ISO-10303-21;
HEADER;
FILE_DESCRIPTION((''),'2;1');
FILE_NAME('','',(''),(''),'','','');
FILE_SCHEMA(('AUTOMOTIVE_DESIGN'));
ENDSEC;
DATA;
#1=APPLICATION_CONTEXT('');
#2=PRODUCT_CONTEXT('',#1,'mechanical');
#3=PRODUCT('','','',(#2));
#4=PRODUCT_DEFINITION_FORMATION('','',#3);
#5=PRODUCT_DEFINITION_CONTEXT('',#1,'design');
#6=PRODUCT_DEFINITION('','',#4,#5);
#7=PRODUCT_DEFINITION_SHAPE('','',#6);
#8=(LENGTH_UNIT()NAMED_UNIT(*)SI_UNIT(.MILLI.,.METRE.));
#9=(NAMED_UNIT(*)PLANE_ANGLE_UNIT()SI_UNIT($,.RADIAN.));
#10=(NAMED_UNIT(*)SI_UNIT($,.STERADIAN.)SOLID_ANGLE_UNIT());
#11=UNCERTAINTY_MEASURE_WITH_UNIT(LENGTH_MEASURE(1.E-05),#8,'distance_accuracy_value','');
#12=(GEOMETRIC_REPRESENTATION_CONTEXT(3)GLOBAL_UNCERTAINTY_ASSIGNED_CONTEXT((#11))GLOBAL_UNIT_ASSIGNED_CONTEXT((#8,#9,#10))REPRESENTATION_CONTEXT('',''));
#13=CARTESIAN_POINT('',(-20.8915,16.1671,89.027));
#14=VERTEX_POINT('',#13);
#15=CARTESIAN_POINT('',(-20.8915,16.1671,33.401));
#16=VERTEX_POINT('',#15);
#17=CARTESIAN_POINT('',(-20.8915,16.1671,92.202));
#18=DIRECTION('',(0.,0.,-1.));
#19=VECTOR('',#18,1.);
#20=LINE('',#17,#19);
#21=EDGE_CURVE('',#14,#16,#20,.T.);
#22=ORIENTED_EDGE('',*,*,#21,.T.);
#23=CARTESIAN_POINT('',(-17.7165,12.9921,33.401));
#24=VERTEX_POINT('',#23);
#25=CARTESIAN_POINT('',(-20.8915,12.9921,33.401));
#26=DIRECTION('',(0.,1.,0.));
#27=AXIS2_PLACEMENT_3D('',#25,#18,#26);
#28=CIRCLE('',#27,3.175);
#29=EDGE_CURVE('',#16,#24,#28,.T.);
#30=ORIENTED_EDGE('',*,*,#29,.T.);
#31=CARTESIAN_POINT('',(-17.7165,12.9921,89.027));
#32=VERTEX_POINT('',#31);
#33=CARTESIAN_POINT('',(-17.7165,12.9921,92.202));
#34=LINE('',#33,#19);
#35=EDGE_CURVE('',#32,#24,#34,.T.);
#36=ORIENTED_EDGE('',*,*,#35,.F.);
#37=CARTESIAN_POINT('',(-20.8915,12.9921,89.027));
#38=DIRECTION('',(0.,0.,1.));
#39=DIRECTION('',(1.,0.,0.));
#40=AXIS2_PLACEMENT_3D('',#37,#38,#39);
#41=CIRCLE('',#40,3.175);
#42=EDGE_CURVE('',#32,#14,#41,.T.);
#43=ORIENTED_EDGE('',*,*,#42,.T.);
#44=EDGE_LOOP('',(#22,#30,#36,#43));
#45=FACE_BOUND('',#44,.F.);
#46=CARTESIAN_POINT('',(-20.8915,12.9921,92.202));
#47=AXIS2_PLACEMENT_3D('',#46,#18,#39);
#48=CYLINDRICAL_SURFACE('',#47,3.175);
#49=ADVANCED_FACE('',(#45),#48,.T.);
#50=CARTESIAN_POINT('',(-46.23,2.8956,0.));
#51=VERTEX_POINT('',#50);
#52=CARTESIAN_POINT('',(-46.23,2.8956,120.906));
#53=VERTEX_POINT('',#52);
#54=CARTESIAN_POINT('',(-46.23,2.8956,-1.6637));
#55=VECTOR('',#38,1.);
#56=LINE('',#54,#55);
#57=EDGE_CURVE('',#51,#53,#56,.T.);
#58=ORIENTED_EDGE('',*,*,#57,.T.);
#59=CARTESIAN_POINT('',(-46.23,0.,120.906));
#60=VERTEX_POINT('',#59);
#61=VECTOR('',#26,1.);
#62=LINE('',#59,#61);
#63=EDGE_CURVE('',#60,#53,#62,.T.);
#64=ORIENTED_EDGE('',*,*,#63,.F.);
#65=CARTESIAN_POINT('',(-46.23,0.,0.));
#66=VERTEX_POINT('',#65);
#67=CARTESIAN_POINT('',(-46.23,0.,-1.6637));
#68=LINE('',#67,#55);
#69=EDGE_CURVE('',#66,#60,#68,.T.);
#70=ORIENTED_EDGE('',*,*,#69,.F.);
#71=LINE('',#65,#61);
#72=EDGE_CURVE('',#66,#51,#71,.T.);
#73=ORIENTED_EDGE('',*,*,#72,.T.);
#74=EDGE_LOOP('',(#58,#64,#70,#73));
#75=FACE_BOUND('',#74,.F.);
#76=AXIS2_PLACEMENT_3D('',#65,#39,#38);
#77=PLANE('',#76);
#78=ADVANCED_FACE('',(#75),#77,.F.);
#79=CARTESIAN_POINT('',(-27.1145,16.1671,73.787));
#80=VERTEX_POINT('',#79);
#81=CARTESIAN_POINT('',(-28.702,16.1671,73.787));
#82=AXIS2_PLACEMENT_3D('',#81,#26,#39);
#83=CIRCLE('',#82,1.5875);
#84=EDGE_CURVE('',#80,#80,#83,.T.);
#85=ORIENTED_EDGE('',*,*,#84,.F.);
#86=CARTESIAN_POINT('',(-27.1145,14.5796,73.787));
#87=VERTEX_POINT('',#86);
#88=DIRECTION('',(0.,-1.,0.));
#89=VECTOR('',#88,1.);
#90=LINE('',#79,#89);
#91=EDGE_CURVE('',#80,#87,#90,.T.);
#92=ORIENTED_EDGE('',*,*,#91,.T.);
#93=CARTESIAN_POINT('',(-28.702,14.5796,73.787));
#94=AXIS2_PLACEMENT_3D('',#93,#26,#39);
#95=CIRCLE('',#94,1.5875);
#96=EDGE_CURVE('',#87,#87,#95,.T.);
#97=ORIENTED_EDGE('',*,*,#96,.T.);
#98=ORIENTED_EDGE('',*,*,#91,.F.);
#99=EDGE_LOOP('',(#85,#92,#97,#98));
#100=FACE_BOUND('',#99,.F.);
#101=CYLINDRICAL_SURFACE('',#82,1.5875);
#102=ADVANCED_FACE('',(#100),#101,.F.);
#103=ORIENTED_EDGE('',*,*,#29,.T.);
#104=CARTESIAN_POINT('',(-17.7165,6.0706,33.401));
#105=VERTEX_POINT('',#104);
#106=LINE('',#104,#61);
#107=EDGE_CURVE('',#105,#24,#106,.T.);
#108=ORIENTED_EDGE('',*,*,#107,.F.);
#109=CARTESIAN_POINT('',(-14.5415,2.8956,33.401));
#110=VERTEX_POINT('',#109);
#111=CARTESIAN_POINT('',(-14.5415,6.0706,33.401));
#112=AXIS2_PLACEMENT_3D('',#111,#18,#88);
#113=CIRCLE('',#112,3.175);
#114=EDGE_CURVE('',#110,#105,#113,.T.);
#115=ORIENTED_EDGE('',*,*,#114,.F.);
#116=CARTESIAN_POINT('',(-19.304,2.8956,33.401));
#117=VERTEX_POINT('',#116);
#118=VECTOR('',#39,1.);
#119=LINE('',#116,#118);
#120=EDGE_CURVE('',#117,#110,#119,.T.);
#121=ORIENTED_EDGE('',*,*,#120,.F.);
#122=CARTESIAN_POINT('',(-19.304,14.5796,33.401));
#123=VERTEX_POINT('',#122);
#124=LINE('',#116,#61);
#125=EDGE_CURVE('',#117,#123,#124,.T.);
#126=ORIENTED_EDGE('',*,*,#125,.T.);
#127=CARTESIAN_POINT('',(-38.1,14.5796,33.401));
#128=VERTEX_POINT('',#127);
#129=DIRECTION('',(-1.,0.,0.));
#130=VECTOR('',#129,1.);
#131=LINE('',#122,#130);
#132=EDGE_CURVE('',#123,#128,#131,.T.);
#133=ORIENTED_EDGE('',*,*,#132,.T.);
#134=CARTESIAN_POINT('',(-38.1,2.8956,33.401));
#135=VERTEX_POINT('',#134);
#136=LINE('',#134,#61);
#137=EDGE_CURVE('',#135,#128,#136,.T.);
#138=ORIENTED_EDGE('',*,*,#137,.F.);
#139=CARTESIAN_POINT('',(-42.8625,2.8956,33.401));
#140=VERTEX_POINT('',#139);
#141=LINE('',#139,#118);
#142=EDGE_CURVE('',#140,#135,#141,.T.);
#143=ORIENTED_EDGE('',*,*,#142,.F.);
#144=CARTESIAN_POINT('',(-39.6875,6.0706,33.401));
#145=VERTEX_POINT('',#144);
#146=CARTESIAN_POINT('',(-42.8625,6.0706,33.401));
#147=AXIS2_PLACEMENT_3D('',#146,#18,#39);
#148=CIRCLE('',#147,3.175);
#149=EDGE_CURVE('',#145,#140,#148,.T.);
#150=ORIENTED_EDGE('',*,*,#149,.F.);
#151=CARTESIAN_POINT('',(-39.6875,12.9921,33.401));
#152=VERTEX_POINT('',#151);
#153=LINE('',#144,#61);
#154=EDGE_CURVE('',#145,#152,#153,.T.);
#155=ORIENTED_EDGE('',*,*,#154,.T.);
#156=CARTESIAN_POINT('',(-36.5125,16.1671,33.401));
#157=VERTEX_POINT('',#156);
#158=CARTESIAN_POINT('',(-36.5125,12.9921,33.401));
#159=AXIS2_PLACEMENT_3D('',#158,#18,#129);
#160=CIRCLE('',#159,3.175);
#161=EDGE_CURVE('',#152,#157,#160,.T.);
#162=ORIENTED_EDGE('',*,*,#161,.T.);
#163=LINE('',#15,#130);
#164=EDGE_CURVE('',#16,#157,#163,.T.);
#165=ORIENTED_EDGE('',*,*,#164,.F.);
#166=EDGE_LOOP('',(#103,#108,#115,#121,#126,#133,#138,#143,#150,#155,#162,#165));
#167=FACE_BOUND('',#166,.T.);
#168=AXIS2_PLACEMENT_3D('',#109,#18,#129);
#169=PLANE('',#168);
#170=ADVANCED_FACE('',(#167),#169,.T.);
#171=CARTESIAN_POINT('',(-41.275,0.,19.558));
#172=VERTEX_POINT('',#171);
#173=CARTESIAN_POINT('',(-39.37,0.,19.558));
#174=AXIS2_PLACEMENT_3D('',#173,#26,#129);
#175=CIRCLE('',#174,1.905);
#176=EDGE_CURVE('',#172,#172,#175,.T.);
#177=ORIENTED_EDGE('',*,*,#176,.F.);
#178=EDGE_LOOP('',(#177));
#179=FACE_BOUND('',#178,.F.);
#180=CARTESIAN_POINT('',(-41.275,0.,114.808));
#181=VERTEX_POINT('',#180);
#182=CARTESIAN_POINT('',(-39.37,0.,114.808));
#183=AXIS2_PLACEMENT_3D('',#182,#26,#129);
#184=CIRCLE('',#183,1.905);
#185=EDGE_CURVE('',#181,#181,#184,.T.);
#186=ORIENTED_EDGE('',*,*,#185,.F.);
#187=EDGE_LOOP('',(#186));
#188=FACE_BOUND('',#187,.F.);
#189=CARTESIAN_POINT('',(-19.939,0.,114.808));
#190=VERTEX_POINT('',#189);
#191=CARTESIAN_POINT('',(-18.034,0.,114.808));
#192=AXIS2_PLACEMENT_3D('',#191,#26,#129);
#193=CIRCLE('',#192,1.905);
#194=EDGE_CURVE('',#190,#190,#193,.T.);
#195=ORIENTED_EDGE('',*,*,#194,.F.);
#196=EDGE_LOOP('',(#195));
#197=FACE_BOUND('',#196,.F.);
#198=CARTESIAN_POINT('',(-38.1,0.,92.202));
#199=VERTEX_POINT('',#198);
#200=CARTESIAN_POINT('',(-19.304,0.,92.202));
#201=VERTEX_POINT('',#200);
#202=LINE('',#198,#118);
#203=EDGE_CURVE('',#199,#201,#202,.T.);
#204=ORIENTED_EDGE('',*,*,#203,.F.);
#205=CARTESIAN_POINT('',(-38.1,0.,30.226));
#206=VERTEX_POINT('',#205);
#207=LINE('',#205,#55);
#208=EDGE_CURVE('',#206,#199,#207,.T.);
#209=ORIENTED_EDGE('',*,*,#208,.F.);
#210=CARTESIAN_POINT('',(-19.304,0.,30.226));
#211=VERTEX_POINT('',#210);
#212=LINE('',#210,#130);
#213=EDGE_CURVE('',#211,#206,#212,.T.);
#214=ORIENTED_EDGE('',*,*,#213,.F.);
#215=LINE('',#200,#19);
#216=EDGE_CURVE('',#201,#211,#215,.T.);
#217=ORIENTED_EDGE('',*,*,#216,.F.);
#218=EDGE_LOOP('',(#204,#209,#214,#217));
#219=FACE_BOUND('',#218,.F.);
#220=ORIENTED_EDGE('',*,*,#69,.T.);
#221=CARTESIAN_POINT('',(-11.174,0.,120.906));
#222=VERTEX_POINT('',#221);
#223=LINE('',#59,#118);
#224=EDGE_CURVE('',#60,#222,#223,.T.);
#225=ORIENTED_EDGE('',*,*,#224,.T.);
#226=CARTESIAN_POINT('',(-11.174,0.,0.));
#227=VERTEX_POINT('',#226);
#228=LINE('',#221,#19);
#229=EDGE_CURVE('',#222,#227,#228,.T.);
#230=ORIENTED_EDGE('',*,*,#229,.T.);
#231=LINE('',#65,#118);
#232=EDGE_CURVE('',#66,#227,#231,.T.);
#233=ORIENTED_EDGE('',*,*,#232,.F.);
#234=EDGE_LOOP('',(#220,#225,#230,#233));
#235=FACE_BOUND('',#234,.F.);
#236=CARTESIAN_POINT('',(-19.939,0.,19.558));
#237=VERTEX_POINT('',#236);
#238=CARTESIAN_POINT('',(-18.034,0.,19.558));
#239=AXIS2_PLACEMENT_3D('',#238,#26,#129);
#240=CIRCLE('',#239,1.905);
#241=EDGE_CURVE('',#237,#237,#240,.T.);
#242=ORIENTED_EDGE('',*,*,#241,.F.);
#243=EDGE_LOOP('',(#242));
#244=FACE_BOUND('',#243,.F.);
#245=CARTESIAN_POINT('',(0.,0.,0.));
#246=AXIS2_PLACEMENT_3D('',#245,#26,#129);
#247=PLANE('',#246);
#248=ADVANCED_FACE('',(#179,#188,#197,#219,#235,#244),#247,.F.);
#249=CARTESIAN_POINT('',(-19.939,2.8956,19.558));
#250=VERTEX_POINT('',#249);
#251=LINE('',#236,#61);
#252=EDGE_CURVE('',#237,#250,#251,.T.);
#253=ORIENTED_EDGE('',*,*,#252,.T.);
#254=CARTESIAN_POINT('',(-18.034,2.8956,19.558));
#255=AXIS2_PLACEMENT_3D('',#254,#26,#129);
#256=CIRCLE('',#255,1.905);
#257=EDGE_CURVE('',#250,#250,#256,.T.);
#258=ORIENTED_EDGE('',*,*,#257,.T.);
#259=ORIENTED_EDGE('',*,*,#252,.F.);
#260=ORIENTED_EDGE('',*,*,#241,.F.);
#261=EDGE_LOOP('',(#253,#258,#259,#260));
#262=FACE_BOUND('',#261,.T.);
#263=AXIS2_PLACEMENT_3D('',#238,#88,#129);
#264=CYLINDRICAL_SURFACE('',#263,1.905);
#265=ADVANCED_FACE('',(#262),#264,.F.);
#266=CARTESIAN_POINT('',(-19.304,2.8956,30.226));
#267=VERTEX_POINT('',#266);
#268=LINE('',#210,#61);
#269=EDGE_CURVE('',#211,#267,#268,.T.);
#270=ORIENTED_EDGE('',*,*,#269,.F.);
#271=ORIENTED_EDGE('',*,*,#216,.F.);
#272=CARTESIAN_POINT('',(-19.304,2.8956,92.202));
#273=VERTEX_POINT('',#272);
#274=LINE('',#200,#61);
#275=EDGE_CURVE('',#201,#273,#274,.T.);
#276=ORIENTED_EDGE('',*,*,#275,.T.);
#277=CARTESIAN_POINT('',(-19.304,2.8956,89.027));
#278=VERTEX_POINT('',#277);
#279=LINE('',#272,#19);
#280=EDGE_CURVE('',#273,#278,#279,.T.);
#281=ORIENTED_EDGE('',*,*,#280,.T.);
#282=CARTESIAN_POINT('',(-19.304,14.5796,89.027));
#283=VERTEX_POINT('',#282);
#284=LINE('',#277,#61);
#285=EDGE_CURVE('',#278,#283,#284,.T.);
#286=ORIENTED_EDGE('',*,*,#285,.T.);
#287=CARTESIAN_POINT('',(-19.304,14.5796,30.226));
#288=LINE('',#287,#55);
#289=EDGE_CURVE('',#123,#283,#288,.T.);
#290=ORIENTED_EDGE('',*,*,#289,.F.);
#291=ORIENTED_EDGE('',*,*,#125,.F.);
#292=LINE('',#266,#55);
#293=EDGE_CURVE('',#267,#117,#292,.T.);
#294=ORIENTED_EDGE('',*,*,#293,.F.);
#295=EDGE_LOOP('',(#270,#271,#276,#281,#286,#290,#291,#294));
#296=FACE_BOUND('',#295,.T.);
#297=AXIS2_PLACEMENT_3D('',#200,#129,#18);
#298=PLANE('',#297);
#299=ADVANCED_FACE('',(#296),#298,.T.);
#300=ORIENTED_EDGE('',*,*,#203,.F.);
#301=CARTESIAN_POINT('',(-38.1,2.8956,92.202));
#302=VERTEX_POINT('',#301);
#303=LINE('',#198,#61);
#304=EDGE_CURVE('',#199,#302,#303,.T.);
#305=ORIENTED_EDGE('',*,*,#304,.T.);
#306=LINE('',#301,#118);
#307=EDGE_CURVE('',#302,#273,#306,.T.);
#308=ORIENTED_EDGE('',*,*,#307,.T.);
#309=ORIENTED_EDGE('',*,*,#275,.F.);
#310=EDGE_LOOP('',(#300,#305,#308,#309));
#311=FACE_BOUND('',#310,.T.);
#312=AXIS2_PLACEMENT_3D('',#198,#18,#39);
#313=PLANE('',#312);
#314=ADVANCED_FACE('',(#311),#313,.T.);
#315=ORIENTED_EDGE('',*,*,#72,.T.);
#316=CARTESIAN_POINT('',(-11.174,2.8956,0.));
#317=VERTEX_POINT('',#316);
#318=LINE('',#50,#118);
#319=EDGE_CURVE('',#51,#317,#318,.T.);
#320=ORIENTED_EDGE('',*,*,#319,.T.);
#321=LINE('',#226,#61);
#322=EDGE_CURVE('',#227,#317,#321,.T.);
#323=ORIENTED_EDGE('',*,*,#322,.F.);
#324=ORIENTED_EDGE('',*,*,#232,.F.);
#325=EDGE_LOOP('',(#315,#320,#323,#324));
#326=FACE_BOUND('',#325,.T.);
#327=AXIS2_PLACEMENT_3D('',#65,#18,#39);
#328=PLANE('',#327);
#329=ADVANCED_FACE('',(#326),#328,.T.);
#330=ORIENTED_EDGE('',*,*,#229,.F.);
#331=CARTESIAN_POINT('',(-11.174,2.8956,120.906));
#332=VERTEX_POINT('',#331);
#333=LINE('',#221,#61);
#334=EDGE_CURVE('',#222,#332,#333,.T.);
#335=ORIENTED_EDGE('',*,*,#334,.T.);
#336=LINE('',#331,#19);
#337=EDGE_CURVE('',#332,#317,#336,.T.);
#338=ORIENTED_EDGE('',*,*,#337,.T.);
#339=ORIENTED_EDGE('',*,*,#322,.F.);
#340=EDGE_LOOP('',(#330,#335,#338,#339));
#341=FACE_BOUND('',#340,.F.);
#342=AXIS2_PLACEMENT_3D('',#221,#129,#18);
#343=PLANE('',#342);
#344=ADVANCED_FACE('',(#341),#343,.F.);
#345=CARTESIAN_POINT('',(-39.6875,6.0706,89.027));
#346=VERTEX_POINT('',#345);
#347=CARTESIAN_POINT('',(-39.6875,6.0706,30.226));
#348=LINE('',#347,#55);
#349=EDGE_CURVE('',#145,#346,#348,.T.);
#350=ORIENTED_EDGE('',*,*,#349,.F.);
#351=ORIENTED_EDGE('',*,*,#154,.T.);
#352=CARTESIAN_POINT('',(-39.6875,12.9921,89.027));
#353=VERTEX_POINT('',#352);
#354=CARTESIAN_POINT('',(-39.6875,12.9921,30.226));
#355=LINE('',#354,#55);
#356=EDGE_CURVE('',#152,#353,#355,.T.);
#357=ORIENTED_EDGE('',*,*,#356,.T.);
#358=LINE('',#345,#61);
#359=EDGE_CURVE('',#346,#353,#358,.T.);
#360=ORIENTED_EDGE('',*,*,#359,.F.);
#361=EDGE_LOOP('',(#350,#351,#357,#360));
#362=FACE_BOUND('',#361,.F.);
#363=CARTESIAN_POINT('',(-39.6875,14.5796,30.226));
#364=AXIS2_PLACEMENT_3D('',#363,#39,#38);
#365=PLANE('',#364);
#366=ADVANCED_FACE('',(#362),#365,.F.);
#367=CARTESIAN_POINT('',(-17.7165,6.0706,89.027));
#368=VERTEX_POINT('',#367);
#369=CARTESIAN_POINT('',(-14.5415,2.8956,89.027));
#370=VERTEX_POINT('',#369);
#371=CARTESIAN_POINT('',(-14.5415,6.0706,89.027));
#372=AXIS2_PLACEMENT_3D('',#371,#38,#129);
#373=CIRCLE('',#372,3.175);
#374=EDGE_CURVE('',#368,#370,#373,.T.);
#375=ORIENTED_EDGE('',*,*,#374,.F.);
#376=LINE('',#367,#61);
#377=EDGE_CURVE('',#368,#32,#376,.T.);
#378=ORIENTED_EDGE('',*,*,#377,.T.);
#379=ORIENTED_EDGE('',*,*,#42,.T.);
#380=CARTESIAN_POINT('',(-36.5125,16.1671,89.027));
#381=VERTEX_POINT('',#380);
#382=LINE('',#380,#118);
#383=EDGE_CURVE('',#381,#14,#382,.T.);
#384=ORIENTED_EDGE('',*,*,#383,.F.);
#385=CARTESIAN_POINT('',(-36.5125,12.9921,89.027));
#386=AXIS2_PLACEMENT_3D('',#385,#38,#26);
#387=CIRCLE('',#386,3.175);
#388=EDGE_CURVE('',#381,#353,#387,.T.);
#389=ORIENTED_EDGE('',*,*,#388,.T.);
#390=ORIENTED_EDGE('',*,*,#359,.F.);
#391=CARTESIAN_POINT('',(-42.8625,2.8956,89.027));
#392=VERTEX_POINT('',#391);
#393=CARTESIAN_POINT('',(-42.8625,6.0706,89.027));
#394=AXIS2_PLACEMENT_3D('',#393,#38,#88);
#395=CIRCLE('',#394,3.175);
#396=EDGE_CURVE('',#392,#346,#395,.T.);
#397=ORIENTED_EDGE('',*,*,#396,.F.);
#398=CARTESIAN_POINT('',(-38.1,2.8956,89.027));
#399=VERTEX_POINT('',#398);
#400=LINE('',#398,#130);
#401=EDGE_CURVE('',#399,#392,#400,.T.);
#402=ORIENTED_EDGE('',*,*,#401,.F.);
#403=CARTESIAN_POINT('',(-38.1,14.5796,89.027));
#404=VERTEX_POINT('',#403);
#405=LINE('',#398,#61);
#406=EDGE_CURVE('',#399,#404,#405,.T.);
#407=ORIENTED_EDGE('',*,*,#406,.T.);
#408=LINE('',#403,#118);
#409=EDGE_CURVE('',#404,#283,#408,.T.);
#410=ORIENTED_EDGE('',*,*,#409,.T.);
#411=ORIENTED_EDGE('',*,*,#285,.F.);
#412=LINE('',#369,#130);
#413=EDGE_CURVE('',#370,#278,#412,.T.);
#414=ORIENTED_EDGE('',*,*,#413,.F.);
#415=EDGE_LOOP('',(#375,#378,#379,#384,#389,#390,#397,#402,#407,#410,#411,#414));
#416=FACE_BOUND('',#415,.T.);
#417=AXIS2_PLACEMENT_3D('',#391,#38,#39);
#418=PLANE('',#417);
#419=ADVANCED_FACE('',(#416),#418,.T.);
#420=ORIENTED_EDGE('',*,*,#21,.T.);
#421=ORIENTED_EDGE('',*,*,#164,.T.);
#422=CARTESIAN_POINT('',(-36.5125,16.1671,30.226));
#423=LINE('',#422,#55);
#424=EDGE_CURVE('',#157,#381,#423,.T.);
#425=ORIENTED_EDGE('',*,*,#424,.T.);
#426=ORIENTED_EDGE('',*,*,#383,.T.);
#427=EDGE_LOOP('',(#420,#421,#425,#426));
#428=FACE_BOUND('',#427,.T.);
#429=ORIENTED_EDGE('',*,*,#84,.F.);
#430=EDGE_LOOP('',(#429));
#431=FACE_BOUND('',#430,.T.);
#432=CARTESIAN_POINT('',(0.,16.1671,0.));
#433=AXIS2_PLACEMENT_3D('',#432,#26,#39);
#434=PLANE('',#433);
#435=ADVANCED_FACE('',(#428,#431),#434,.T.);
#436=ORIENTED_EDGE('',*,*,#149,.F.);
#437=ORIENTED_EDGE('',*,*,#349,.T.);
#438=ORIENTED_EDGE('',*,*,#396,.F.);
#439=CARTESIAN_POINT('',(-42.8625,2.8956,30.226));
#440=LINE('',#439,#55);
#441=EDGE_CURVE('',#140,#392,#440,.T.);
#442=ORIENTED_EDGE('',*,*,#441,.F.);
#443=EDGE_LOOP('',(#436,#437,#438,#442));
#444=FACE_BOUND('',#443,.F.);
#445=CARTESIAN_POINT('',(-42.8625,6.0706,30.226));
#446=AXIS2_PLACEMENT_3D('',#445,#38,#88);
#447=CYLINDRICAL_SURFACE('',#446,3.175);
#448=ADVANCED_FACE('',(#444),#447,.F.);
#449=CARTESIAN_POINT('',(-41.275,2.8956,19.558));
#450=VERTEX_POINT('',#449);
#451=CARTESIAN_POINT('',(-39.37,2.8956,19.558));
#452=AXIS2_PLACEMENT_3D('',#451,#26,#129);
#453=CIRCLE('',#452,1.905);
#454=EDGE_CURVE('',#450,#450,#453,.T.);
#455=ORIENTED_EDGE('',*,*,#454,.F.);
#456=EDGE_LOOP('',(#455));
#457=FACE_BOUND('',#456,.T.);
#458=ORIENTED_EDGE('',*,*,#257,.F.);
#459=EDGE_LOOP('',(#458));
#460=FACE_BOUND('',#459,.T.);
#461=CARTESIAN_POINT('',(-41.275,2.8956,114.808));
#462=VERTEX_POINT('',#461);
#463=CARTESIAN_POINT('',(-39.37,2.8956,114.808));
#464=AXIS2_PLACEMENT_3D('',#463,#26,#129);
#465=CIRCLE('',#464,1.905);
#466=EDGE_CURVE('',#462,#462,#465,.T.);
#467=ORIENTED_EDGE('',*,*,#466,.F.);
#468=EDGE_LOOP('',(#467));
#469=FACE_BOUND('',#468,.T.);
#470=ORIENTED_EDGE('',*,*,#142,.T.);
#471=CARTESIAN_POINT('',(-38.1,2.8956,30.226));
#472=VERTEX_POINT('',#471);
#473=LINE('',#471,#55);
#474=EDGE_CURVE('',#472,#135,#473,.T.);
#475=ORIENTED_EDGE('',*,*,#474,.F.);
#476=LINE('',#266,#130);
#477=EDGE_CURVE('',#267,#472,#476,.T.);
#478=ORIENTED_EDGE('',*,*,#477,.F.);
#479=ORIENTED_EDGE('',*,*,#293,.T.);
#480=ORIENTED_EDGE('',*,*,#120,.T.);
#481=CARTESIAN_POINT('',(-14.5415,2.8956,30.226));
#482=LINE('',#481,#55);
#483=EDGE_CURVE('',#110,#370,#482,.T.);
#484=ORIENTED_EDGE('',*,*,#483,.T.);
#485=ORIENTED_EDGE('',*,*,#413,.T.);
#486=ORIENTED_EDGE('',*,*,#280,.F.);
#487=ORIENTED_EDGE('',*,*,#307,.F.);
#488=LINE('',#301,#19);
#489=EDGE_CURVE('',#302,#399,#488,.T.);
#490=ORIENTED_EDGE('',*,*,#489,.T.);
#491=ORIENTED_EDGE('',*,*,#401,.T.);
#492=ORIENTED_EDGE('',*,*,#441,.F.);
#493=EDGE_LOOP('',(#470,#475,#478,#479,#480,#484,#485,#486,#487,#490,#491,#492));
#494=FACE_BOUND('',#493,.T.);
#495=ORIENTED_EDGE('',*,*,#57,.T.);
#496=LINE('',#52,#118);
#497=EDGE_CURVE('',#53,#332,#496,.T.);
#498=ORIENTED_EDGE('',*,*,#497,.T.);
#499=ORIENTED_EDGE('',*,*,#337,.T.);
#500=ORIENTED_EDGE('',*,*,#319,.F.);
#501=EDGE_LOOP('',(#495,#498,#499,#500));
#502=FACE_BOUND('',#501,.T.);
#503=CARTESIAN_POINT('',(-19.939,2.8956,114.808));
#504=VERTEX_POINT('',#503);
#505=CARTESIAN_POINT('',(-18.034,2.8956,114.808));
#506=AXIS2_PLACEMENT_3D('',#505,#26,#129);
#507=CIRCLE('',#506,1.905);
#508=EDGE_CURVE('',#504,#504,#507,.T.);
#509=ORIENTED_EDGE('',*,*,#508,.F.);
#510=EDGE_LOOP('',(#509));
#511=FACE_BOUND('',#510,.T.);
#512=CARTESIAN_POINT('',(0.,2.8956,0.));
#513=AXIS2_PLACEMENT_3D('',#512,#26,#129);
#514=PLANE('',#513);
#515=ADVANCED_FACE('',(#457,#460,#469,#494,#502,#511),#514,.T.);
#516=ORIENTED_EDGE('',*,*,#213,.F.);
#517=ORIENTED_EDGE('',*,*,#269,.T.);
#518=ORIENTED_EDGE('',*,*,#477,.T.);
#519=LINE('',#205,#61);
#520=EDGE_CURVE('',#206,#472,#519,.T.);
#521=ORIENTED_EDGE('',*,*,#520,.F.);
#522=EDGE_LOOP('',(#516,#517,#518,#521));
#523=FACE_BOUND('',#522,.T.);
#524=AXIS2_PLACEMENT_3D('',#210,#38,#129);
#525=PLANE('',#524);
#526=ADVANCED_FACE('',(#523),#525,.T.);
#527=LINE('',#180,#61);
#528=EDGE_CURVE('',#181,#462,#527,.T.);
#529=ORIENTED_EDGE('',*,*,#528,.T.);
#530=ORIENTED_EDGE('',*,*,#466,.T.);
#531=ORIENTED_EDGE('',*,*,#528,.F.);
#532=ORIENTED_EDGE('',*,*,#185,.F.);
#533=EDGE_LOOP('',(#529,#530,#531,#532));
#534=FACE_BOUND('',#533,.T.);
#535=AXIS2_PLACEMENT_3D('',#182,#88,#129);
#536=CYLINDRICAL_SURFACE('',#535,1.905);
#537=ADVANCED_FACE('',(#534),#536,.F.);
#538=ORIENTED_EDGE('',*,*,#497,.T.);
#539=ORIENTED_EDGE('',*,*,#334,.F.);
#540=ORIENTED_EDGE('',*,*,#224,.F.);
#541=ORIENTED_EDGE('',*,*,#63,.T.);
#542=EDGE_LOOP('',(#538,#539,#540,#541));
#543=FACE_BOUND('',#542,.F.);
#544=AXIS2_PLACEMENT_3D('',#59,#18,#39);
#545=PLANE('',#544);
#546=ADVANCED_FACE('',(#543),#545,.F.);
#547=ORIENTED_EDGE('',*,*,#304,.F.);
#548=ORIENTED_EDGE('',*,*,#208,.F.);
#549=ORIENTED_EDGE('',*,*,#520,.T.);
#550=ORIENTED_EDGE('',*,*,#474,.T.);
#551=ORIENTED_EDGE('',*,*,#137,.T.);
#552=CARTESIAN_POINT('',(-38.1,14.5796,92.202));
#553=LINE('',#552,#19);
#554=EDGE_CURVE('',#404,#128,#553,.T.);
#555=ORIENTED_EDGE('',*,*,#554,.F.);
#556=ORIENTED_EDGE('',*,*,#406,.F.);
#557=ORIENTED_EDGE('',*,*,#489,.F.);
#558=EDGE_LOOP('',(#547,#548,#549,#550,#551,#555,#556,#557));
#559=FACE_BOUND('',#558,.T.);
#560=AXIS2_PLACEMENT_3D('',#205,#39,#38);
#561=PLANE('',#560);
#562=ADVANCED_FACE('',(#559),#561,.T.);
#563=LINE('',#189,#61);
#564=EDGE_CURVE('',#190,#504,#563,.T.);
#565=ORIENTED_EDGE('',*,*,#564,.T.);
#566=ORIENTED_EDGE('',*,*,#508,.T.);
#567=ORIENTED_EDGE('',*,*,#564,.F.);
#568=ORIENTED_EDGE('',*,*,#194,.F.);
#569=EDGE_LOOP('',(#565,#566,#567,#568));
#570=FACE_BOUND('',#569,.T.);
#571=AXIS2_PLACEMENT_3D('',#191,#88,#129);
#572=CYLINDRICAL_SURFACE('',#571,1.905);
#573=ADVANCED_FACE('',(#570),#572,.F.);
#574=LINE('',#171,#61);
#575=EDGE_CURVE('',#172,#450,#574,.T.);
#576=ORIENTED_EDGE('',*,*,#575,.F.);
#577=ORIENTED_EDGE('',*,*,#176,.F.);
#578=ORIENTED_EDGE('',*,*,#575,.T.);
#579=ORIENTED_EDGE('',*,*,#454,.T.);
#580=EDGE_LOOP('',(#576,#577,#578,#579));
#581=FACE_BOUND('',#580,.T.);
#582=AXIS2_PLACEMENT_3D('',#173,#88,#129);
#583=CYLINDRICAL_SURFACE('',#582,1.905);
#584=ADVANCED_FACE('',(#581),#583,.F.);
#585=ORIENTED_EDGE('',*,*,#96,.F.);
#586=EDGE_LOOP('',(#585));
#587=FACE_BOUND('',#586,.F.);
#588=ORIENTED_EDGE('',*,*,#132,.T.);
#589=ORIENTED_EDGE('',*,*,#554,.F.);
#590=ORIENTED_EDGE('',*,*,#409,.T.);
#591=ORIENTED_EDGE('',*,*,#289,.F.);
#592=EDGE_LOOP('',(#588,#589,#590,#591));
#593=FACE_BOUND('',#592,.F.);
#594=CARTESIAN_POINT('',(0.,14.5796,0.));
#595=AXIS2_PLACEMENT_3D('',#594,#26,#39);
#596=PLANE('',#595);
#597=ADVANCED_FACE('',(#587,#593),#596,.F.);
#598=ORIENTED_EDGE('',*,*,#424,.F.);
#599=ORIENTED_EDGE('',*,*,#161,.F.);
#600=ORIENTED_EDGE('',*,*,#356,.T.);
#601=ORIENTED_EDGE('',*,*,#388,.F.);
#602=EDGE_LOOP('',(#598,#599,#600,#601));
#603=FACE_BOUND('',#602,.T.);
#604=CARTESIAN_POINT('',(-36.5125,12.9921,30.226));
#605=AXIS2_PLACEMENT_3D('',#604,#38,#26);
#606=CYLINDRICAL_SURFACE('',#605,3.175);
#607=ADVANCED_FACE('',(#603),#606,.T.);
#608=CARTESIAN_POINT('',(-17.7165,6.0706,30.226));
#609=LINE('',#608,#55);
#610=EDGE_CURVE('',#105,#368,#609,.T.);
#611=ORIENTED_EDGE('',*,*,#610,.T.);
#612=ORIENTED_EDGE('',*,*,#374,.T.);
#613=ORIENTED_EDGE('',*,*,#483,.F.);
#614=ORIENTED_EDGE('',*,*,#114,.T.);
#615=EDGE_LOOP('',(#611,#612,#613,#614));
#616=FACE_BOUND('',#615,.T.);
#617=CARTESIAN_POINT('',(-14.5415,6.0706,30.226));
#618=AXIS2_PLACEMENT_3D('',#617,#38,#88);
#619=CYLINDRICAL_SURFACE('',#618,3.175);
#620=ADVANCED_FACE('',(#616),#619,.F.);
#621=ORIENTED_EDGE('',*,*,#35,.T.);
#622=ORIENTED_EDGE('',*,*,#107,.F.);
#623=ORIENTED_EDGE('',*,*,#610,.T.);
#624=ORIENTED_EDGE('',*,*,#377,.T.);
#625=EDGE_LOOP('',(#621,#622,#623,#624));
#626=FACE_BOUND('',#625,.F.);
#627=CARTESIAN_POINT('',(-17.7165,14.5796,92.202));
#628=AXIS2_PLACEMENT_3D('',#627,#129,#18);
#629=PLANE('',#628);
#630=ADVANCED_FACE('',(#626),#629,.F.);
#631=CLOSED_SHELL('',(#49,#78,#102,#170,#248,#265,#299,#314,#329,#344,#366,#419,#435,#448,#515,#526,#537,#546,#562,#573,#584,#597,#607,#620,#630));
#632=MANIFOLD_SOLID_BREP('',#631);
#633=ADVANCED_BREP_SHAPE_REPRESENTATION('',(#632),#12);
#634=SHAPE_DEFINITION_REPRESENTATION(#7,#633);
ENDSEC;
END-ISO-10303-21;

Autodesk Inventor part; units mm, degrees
ref_plane "YZ Plane" through (0, 0, 0) normal (1, 0, 0) x (0, 1, 0)
ref_plane "XZ Plane" through (0, 0, 0) normal (0, 1, 0) x (-1, 0, 0)
ref_plane "XY Plane" through (0, 0, 0) normal (0, 0, 1) x (1, 0, 0)
sketch "Sketch1" plane through (0, 0, 0) normal (0, 1, 0) x (-1, 0, 0)
  line L0 (0, 0) -> (57.404, 0) construction
  line L1 (57.404, 0) -> (57.404, 120.904) construction
  line L2 (57.404, 120.904) -> (50.8, 132.334) construction
  line L3 (50.8, 132.334) -> (6.858, 132.334) construction
  line L4 (6.858, 132.334) -> (0, 121.158) construction
  line L5 (0, 121.158) -> (0, 0) construction
  circle A0 centre (4.318, 10.414) radius 0.51 construction
  circle A1 centre (4.318, 17.526) radius 0.51 construction
  circle A2 centre (4.318, 15.366) radius 0.55 construction
  circle A3 centre (4.318, 24.638) radius 0.51 construction
  circle A4 centre (4.318, 22.478) radius 0.55 construction
  circle A5 centre (6.858, 3.302) radius 0.51 construction
  circle A6 centre (6.858, 10.414) radius 0.51 construction
  circle A7 centre (6.858, 17.526) radius 0.51 construction
  circle A8 centre (4.318, 3.302) radius 0.51 construction
  circle A9 centre (4.318, 8.254) radius 0.55 construction
  circle A10 centre (18.542, 10.879) radius 1.27 construction
  circle A11 centre (9.398, 10.414) radius 0.51 construction
  circle A12 centre (9.398, 17.526) radius 0.51 construction
  circle A13 centre (18.034, 19.558) radius 2.15 construction
  circle A14 centre (9.398, 3.302) radius 0.51 construction
  circle A15 centre (23.622, 3.259) radius 1.995 construction
  circle A16 centre (21.082, 13.419) radius 0.8 construction
  circle A17 centre (26.162, 13.419) radius 0.8 construction
  circle A18 centre (53.086, 3.81) radius 0.51 construction
  circle A19 centre (48.006, 3.81) radius 0.51 construction
  circle A20 centre (50.546, 3.81) radius 0.51 construction
  circle A21 centre (53.086, 5.97) radius 0.55 construction
  circle A22 centre (50.546, 10.922) radius 0.51 construction
  circle A23 centre (53.086, 10.922) radius 0.51 construction
  circle A24 centre (48.006, 10.922) radius 0.51 construction
  circle A25 centre (48.006, 18.034) radius 0.51 construction
  circle A26 centre (50.546, 18.034) radius 0.51 construction
  circle A27 centre (53.086, 18.034) radius 0.51 construction
  circle A28 centre (53.086, 13.082) radius 0.55 construction
  circle A29 centre (31.242, 13.419) radius 0.8 construction
  circle A30 centre (36.322, 13.419) radius 0.8 construction
  circle A31 centre (33.782, 3.259) radius 1.995 construction
  circle A32 centre (39.37, 19.558) radius 2.15 construction
  circle A33 centre (38.862, 10.879) radius 1.27 construction
  circle A34 centre (53.086, 20.194) radius 0.55 construction
  circle A35 centre (21.082, 72.644) radius 0.5 construction
  circle A36 centre (21.082, 37.084) radius 0.5 construction
  circle A37 centre (36.322, 52.324) radius 0.5 construction
  circle A38 centre (48.006, 67.818) radius 0.51 construction
  circle A39 centre (55.626, 10.922) radius 0.51 construction
  circle A40 centre (55.626, 3.81) radius 0.51 construction
  circle A41 centre (55.626, 18.034) radius 0.51 construction
  circle A42 centre (1.778, 3.302) radius 0.51 construction
  circle A43 centre (1.778, 10.414) radius 0.51 construction
  circle A44 centre (1.778, 17.526) radius 0.51 construction
  circle A45 centre (1.778, 88.646) radius 0.51 construction
  circle A46 centre (4.318, 88.646) radius 0.51 construction
  circle A47 centre (9.398, 88.646) radius 0.51 construction
  circle A48 centre (6.858, 88.646) radius 0.51 construction
  circle A49 centre (21.082, 87.884) radius 0.5 construction
  circle A50 centre (55.626, 89.154) radius 0.51 construction
  circle A51 centre (53.086, 89.154) radius 0.51 construction
  circle A52 centre (50.546, 89.154) radius 0.51 construction
  circle A53 centre (48.006, 89.154) radius 0.51 construction
  circle A54 centre (36.322, 87.884) radius 0.5 construction
  circle A55 centre (53.086, 84.202) radius 0.55 construction
  circle A56 centre (36.322, 85.344) radius 0.5 construction
  circle A57 centre (4.318, 86.486) radius 0.55 construction
  circle A58 centre (21.082, 85.344) radius 0.5 construction
  circle A59 centre (9.398, 60.198) radius 0.51 construction
  circle A60 centre (21.082, 65.024) radius 0.5 construction
  circle A61 centre (21.082, 62.484) radius 0.5 construction
  circle A62 centre (21.082, 59.944) radius 0.5 construction
  circle A63 centre (9.398, 67.31) radius 0.51 construction
  circle A64 centre (21.082, 75.184) radius 0.5 construction
  circle A65 centre (21.082, 67.564) radius 0.5 construction
  circle A66 centre (21.082, 70.104) radius 0.5 construction
  circle A67 centre (9.398, 74.422) radius 0.51 construction
  circle A68 centre (21.082, 80.264) radius 0.5 construction
  circle A69 centre (21.082, 77.724) radius 0.5 construction
  circle A70 centre (21.082, 82.804) radius 0.5 construction
  circle A71 centre (9.398, 81.534) radius 0.51 construction
  circle A72 centre (50.546, 82.042) radius 0.51 construction
  circle A73 centre (48.006, 82.042) radius 0.51 construction
  circle A74 centre (36.322, 77.724) radius 0.5 construction
  circle A75 centre (36.322, 80.264) radius 0.5 construction
  circle A76 centre (36.322, 82.804) radius 0.5 construction
  circle A77 centre (50.546, 74.93) radius 0.51 construction
  circle A78 centre (48.006, 74.93) radius 0.51 construction
  circle A79 centre (36.322, 75.184) radius 0.5 construction
  circle A80 centre (36.322, 72.644) radius 0.5 construction
  circle A81 centre (36.322, 62.484) radius 0.5 construction
  circle A82 centre (36.322, 65.024) radius 0.5 construction
  circle A83 centre (36.322, 70.104) radius 0.5 construction
  circle A84 centre (36.322, 67.564) radius 0.5 construction
  circle A85 centre (50.546, 67.818) radius 0.51 construction
  circle A86 centre (50.546, 60.706) radius 0.51 construction
  circle A87 centre (48.006, 60.706) radius 0.51 construction
  circle A88 centre (36.322, 59.944) radius 0.5 construction
  circle A89 centre (4.318, 65.15) radius 0.55 construction
  circle A90 centre (4.318, 60.198) radius 0.51 construction
  circle A91 centre (4.318, 67.31) radius 0.51 construction
  circle A92 centre (6.858, 67.31) radius 0.51 construction
  circle A93 centre (6.858, 60.198) radius 0.51 construction
  circle A94 centre (6.858, 81.534) radius 0.51 construction
  circle A95 centre (6.858, 74.422) radius 0.51 construction
  circle A96 centre (4.318, 81.534) radius 0.51 construction
  circle A97 centre (4.318, 72.262) radius 0.55 construction
  circle A98 centre (4.318, 74.422) radius 0.51 construction
  circle A99 centre (4.318, 79.374) radius 0.55 construction
  circle A100 centre (53.086, 69.978) radius 0.55 construction
  circle A101 centre (53.086, 67.818) radius 0.51 construction
  circle A102 centre (53.086, 74.93) radius 0.51 construction
  circle A103 centre (53.086, 60.706) radius 0.51 construction
  circle A104 centre (53.086, 62.866) radius 0.55 construction
  circle A105 centre (53.086, 77.09) radius 0.55 construction
  circle A106 centre (53.086, 82.042) radius 0.51 construction
  circle A107 centre (1.778, 60.198) radius 0.51 construction
  circle A108 centre (1.778, 67.31) radius 0.51 construction
  circle A109 centre (1.778, 81.534) radius 0.51 construction
  circle A110 centre (1.778, 74.422) radius 0.51 construction
  circle A111 centre (55.626, 60.706) radius 0.51 construction
  circle A112 centre (55.626, 67.818) radius 0.51 construction
  circle A113 centre (55.626, 82.042) radius 0.51 construction
  circle A114 centre (55.626, 74.93) radius 0.51 construction
  circle A115 centre (36.322, 57.404) radius 0.5 construction
  circle A116 centre (21.082, 57.404) radius 0.5 construction
  circle A117 centre (4.318, 58.038) radius 0.55 construction
  circle A118 centre (1.778, 24.638) radius 0.51 construction
  circle A119 centre (1.778, 31.75) radius 0.51 construction
  circle A120 centre (4.318, 31.75) radius 0.51 construction
  circle A121 centre (4.318, 29.59) radius 0.55 construction
  circle A122 centre (6.858, 24.638) radius 0.51 construction
  circle A123 centre (6.858, 31.75) radius 0.51 construction
  circle A124 centre (6.858, 38.862) radius 0.51 construction
  circle A125 centre (4.318, 38.862) radius 0.51 construction
  circle A126 centre (1.778, 38.862) radius 0.51 construction
  circle A127 centre (4.318, 36.702) radius 0.55 construction
  circle A128 centre (9.398, 24.638) radius 0.51 construction
  circle A129 centre (21.082, 39.624) radius 0.5 construction
  circle A130 centre (21.082, 32.004) radius 0.5 construction
  circle A131 centre (21.082, 34.544) radius 0.5 construction
  circle A132 centre (9.398, 31.75) radius 0.51 construction
  circle A133 centre (9.398, 38.862) radius 0.51 construction
  circle A134 centre (1.778, 45.974) radius 0.51 construction
  circle A135 centre (6.858, 45.974) radius 0.51 construction
  circle A136 centre (4.318, 45.974) radius 0.51 construction
  circle A137 centre (4.318, 43.814) radius 0.55 construction
  circle A138 centre (9.398, 45.974) radius 0.51 construction
  circle A139 centre (21.082, 44.704) radius 0.5 construction
  circle A140 centre (21.082, 42.164) radius 0.5 construction
  circle A141 centre (21.082, 47.244) radius 0.5 construction
  circle A142 centre (55.626, 46.482) radius 0.51 construction
  circle A143 centre (53.086, 46.482) radius 0.51 construction
  circle A144 centre (50.546, 46.482) radius 0.51 construction
  circle A145 centre (55.626, 39.37) radius 0.51 construction
  circle A146 centre (53.086, 39.37) radius 0.51 construction
  circle A147 centre (50.546, 39.37) radius 0.51 construction
  circle A148 centre (53.086, 41.53) radius 0.55 construction
  circle A149 centre (48.006, 46.482) radius 0.51 construction
  circle A150 centre (48.006, 32.258) radius 0.51 construction
  circle A151 centre (50.546, 32.258) radius 0.51 construction
  circle A152 centre (55.626, 32.258) radius 0.51 construction
  circle A153 centre (53.086, 32.258) radius 0.51 construction
  circle A154 centre (48.006, 39.37) radius 0.51 construction
  circle A155 centre (53.086, 34.418) radius 0.55 construction
  circle A156 centre (53.086, 27.306) radius 0.55 construction
  circle A157 centre (36.322, 34.544) radius 0.5 construction
  circle A158 centre (36.322, 39.624) radius 0.5 construction
  circle A159 centre (36.322, 37.084) radius 0.5 construction
  circle A160 centre (36.322, 42.164) radius 0.5 construction
  circle A161 centre (36.322, 47.244) radius 0.5 construction
  circle A162 centre (36.322, 44.704) radius 0.5 construction
  circle A163 centre (36.322, 32.004) radius 0.5 construction
  circle A164 centre (55.626, 25.146) radius 0.51 construction
  circle A165 centre (53.086, 25.146) radius 0.51 construction
  circle A166 centre (48.006, 25.146) radius 0.51 construction
  circle A167 centre (50.546, 25.146) radius 0.51 construction
  circle A168 centre (36.322, 49.784) radius 0.5 construction
  circle A169 centre (21.082, 49.784) radius 0.5 construction
  circle A170 centre (53.086, 48.642) radius 0.55 construction
  circle A171 centre (4.318, 53.086) radius 0.51 construction
  circle A172 centre (4.318, 50.926) radius 0.55 construction
  circle A173 centre (6.858, 53.086) radius 0.51 construction
  circle A174 centre (9.398, 53.086) radius 0.51 construction
  circle A175 centre (21.082, 52.324) radius 0.5 construction
  circle A176 centre (55.626, 53.594) radius 0.51 construction
  circle A177 centre (53.086, 53.594) radius 0.51 construction
  circle A178 centre (48.006, 53.594) radius 0.51 construction
  circle A179 centre (50.546, 53.594) radius 0.51 construction
  circle A180 centre (1.778, 53.086) radius 0.51 construction
  circle A181 centre (53.086, 55.754) radius 0.55 construction
  circle A182 centre (36.322, 54.864) radius 0.5 construction
  circle A183 centre (21.082, 54.864) radius 0.5 construction
  circle A184 centre (55.626, 96.266) radius 0.51 construction
  circle A185 centre (53.086, 96.266) radius 0.51 construction
  circle A186 centre (53.086, 91.314) radius 0.55 construction
  circle A187 centre (50.546, 96.266) radius 0.51 construction
  circle A188 centre (48.006, 96.266) radius 0.51 construction
  circle A189 centre (36.322, 90.424) radius 0.5 construction
  circle A190 centre (6.858, 95.758) radius 0.51 construction
  circle A191 centre (9.398, 95.758) radius 0.51 construction
  circle A192 centre (21.082, 90.424) radius 0.5 construction
  circle A193 centre (4.318, 95.758) radius 0.51 construction
  circle A194 centre (4.318, 93.598) radius 0.55 construction
  circle A195 centre (1.778, 95.758) radius 0.51 construction
  circle A196 centre (55.626, 117.602) radius 0.51 construction
  circle A197 centre (53.086, 117.602) radius 0.51 construction
  circle A198 centre (48.006, 117.602) radius 0.51 construction
  circle A199 centre (50.546, 117.602) radius 0.51 construction
  circle A200 centre (53.086, 112.65) radius 0.55 construction
  circle A201 centre (53.086, 110.49) radius 0.51 construction
  circle A202 centre (48.006, 110.49) radius 0.51 construction
  circle A203 centre (50.546, 110.49) radius 0.51 construction
  circle A204 centre (55.626, 110.49) radius 0.51 construction
  circle A205 centre (39.37, 114.808) radius 2.15 construction
  circle A206 centre (9.398, 109.982) radius 0.51 construction
  circle A207 centre (9.398, 117.094) radius 0.51 construction
  circle A208 centre (18.034, 114.808) radius 2.15 construction
  circle A209 centre (9.398, 102.87) radius 0.51 construction
  circle A210 centre (53.086, 103.378) radius 0.51 construction
  circle A211 centre (48.006, 103.378) radius 0.51 construction
  circle A212 centre (50.546, 103.378) radius 0.51 construction
  circle A213 centre (53.086, 105.538) radius 0.55 construction
  circle A214 centre (55.626, 103.378) radius 0.51 construction
  circle A215 centre (4.318, 117.094) radius 0.51 construction
  circle A216 centre (4.318, 114.934) radius 0.55 construction
  circle A217 centre (6.858, 117.094) radius 0.51 construction
  circle A218 centre (4.318, 109.982) radius 0.51 construction
  circle A219 centre (6.858, 109.982) radius 0.51 construction
  circle A220 centre (6.858, 102.87) radius 0.51 construction
  circle A221 centre (4.318, 102.87) radius 0.51 construction
  circle A222 centre (4.318, 107.822) radius 0.55 construction
  circle A223 centre (4.318, 100.71) radius 0.55 construction
  circle A224 centre (1.778, 117.094) radius 0.51 construction
  circle A225 centre (1.778, 109.982) radius 0.51 construction
  circle A226 centre (1.778, 102.87) radius 0.51 construction
  circle A227 centre (53.086, 98.426) radius 0.55 construction
  circle A228 centre (10.16, 122.682) radius 0.51 construction
  circle A229 centre (17.272, 122.682) radius 0.51 construction
  circle A230 centre (24.384, 122.682) radius 0.51 construction
  circle A231 centre (38.608, 122.682) radius 0.51 construction
  circle A232 centre (31.496, 122.682) radius 0.51 construction
  circle A233 centre (53.086, 119.762) radius 0.55 construction
  circle A234 centre (45.72, 122.682) radius 0.51 construction
  circle A235 centre (24.384, 130.302) radius 0.51 construction
  circle A236 centre (17.272, 130.302) radius 0.51 construction
  circle A237 centre (22.224, 127.762) radius 0.55 construction
  circle A238 centre (17.272, 127.762) radius 0.51 construction
  circle A239 centre (31.496, 127.762) radius 0.51 construction
  circle A240 centre (29.336, 127.762) radius 0.55 construction
  circle A241 centre (24.384, 127.762) radius 0.51 construction
  circle A242 centre (31.496, 130.302) radius 0.51 construction
  circle A243 centre (17.272, 125.222) radius 0.51 construction
  circle A244 centre (24.384, 125.222) radius 0.51 construction
  circle A245 centre (31.496, 125.222) radius 0.51 construction
  circle A246 centre (38.608, 125.222) radius 0.51 construction
  circle A247 centre (36.448, 127.762) radius 0.55 construction
  circle A248 centre (38.608, 127.762) radius 0.51 construction
  circle A249 centre (38.608, 130.302) radius 0.51 construction
  circle A250 centre (45.72, 130.302) radius 0.51 construction
  circle A251 centre (45.72, 127.762) radius 0.51 construction
  circle A252 centre (43.56, 127.762) radius 0.55 construction
  circle A253 centre (45.72, 125.222) radius 0.51 construction
  circle A254 centre (10.16, 125.222) radius 0.51 construction
  circle A255 centre (10.16, 127.762) radius 0.51 construction
  circle A256 centre (10.16, 130.302) radius 0.51 construction
  circle A257 centre (15.112, 127.762) radius 0.55 construction
  circle A258 centre (8, 127.762) radius 0.55 construction
  circle A259 centre (4.318, 1.142) radius 0.55 construction
  line L6 (-0.0762, -0.0762) -> (57.4802, -0.0762) construction
  line L7 (57.4802, -0.0762) -> (57.4802, 120.9244) construction
  line L8 (57.4802, 120.9244) -> (50.844, 132.4102) construction
  line L9 (50.844, 132.4102) -> (6.8154, 132.4102) construction
  line L10 (6.8154, 132.4102) -> (-0.0762, 121.1795) construction
  line L11 (-0.0762, 121.1795) -> (-0.0762, -0.0762) construction
  line L12 (-1.6637, -1.6637) -> (59.0677, -1.6637) construction
  line L13 (59.0677, -1.6637) -> (59.0677, 121.3501) construction
  line L14 (59.0677, 121.3501) -> (51.7602, 133.9977) construction
  line L15 (51.7602, 133.9977) -> (5.9269, 133.9977) construction
  line L16 (5.9269, 133.9977) -> (-1.6637, 121.6278) construction
  line L17 (-1.6637, 121.6278) -> (-1.6637, -1.6637) construction
  circle A260 centre (39.37, 19.558) radius 1.905 construction
  circle A261 centre (18.034, 19.558) radius 1.905 construction
  circle A262 centre (18.034, 114.808) radius 1.905 construction
  circle A263 centre (39.37, 114.808) radius 1.905 construction
  circle A264 centre (39.37, 114.808) radius 1.905
  circle A265 centre (18.034, 114.808) radius 1.905
  circle A266 centre (18.034, 19.558) radius 1.905
  circle A267 centre (39.37, 19.558) radius 1.905
  line L18 (46.23, 120.906) -> (11.174, 120.906)
  line L19 (11.174, 120.906) -> (11.174, -1.6637)
  line L20 (11.174, -1.6637) -> (46.23, -1.6637)
  line L21 (46.23, -1.6637) -> (46.23, 120.906)
  line L22 (38.1, 92.202) -> (19.304, 92.202)
  line L23 (19.304, 92.202) -> (19.304, 30.226)
  line L24 (19.304, 30.226) -> (38.1, 30.226)
  line L25 (38.1, 30.226) -> (38.1, 92.202)
  line L26 (46.23, 0) -> (11.174, 0)
  point P0 (-98.298, 175.514)
  dimension "d0" = 0.0762
  dimension "d1" = 1.5875
  dimension "d2" = 3.81
  dimension "d3" = 107.4968
  dimension "d4" = 155.702
  dimension "d5" = 1.776
  dimension "d6" = 1.776
  dimension "d7" = 1.776
  dimension "d14" = 1.778
  dimension "d15" = 1.778
  dimension "d16" = 1.778
  dimension "d17" = 1.778
extrude "Extrusion3" add sketch "Sketch1" along normal blind 2.8956 contours L21 L26 L19 L18
sketch "Sketch2" plane through (0, 2.8956, 0) normal (0, 1, 0) x (1, 0, 0)
  line L0 (-38.1, -92.202) -> (-38.1, -30.226) projected
  line L1 (-38.1, -30.226) -> (-39.6875, -30.226)
  line L2 (-39.6875, -30.226) -> (-39.6875, -92.202)
  line L3 (-39.6875, -92.202) -> (-38.1, -92.202)
  line L4 (-38.1, -92.202) -> (-38.1, -30.226)
  line L5 (-19.304, -30.226) -> (-19.304, -92.202) projected
  line L6 (-19.304, -30.226) -> (-17.7165, -30.226)
  line L7 (-17.7165, -30.226) -> (-17.7165, -92.202)
  line L8 (-17.7165, -92.202) -> (-19.304, -92.202)
  line L9 (-19.304, -92.202) -> (-19.304, -30.226)
  line L10 (-19.304, -92.202) -> (-38.1, -92.202) projected
  point P0 (0, 0)
  dimension "d18" = 1.5875
extrude "Extrusion4" add sketch "Sketch2" along normal blind 11.684
fillet "Fillet1" radius 3.175 2 edges at (-17.7165, 2.8956, 61.214) (-39.6875, 2.8956, 61.214)
sketch "Sketch3" plane through (0, 14.5796, 0) normal (0, 1, 0) x (1, 0, 0)
  line L0 (-17.7165, -92.202) -> (-17.7165, -30.226) projected
  line L1 (-17.7165, -30.226) -> (-39.6875, -30.226)
  line L2 (-39.6875, -30.226) -> (-39.6875, -92.202)
  line L3 (-39.6875, -92.202) -> (-17.7165, -92.202)
  line L4 (-17.7165, -92.202) -> (-17.7165, -30.226)
  line L5 (-39.6875, -92.202) -> (-38.1, -92.202) projected
  line L6 (-39.6875, -30.226) -> (-39.6875, -92.202) projected
  point P0 (0, 0)
extrude "Extrusion5" add sketch "Sketch3" along normal blind 1.5875
fillet "Fillet2" radius 3.175 2 edges at (-39.6875, 16.1671, 61.214) (-17.7165, 16.1671, 61.214)
sketch "Sketch4" plane through (-42.8625, 2.8956, 92.202) normal (0, 0, 1) x (1, 0, 0)
  arc A0 (25.146, 10.0965) -> (21.971, 13.2715) centre (21.971, 10.0965) ccw projected
  line L0 (6.35, 13.2715) -> (21.971, 13.2715) projected
  arc A1 (6.35, 13.2715) -> (3.175, 10.0965) centre (6.35, 10.0965) ccw projected
  line L1 (3.175, 3.175) -> (3.175, 10.0965) projected
  arc A2 (0, 0) -> (3.175, 3.175) centre (0, 3.175) ccw projected
  line L2 (4.7625, 0) -> (0, 0) projected
  line L3 (4.7625, 0) -> (4.7625, 11.684) projected
  line L4 (4.7625, 11.684) -> (23.5585, 11.684) projected
  line L5 (23.5585, 0) -> (23.5585, 11.684) projected
  line L6 (28.321, 0) -> (23.5585, 0) projected
  arc A3 (25.146, 3.175) -> (28.321, 0) centre (28.321, 3.175) ccw projected
  line L7 (25.146, 3.175) -> (25.146, 10.0965) projected
  point P0 (42.8625, -2.8956)
extrude "Extrusion6" cut sketch "Sketch4" against normal blind 3.175
sketch "Sketch5" plane through (0, 16.1671, 0) normal (0, 1, 0) x (1, 0, 0)
  circle A0 centre (-28.702, -73.787) radius 1.5875
  line L0 (-36.5125, -89.027) -> (-36.5125, -30.226) projected
  line L1 (-20.8915, -30.226) -> (-20.8915, -89.027) projected
  line L2 (-36.5125, -89.027) -> (-20.8915, -89.027) projected
  point P0 (0, 0)
  dimension "d27" = 7.8105
  dimension "d28" = 7.8105
  dimension "d31" = 15.24
  dimension "d32" = 3.175
extrude "Extrusion7" cut sketch "Sketch5" against normal up to surface (1.5875 mm away)
sketch "Sketch6" plane through (-14.5415, 2.8956, 30.226) normal (0, 0, -1) x (-1, 0, 0)
  arc A0 (6.35, 13.2715) -> (3.175, 10.0965) centre (6.35, 10.0965) ccw projected
  line L0 (3.175, 3.175) -> (3.175, 10.0965) projected
  arc A1 (0, 0) -> (3.175, 3.175) centre (0, 3.175) ccw projected
  line L1 (4.7625, 0) -> (0, 0) projected
  line L2 (4.7625, 0) -> (4.7625, 11.684) projected
  line L3 (4.7625, 11.684) -> (23.5585, 11.684) projected
  line L4 (23.5585, 0) -> (23.5585, 11.684) projected
  line L5 (28.321, 0) -> (23.5585, 0) projected
  arc A2 (25.146, 3.175) -> (28.321, 0) centre (28.321, 3.175) ccw projected
  line L6 (25.146, 3.175) -> (25.146, 10.0965) projected
  arc A3 (25.146, 10.0965) -> (21.971, 13.2715) centre (21.971, 10.0965) ccw projected
  line L7 (6.35, 13.2715) -> (21.971, 13.2715) projected
  point P0 (-14.5415, -2.8956)
extrude "Extrusion8" cut sketch "Sketch6" against normal blind 3.175
equation "\"d6\" = d7"
equation "\"d7\" = d5"
equation "\"d15\" = d14"
equation "\"d16\" = d14"
equation "\"d17\" = d14"
equation "\"d27\" = d28"
properties part number "TopCase"
